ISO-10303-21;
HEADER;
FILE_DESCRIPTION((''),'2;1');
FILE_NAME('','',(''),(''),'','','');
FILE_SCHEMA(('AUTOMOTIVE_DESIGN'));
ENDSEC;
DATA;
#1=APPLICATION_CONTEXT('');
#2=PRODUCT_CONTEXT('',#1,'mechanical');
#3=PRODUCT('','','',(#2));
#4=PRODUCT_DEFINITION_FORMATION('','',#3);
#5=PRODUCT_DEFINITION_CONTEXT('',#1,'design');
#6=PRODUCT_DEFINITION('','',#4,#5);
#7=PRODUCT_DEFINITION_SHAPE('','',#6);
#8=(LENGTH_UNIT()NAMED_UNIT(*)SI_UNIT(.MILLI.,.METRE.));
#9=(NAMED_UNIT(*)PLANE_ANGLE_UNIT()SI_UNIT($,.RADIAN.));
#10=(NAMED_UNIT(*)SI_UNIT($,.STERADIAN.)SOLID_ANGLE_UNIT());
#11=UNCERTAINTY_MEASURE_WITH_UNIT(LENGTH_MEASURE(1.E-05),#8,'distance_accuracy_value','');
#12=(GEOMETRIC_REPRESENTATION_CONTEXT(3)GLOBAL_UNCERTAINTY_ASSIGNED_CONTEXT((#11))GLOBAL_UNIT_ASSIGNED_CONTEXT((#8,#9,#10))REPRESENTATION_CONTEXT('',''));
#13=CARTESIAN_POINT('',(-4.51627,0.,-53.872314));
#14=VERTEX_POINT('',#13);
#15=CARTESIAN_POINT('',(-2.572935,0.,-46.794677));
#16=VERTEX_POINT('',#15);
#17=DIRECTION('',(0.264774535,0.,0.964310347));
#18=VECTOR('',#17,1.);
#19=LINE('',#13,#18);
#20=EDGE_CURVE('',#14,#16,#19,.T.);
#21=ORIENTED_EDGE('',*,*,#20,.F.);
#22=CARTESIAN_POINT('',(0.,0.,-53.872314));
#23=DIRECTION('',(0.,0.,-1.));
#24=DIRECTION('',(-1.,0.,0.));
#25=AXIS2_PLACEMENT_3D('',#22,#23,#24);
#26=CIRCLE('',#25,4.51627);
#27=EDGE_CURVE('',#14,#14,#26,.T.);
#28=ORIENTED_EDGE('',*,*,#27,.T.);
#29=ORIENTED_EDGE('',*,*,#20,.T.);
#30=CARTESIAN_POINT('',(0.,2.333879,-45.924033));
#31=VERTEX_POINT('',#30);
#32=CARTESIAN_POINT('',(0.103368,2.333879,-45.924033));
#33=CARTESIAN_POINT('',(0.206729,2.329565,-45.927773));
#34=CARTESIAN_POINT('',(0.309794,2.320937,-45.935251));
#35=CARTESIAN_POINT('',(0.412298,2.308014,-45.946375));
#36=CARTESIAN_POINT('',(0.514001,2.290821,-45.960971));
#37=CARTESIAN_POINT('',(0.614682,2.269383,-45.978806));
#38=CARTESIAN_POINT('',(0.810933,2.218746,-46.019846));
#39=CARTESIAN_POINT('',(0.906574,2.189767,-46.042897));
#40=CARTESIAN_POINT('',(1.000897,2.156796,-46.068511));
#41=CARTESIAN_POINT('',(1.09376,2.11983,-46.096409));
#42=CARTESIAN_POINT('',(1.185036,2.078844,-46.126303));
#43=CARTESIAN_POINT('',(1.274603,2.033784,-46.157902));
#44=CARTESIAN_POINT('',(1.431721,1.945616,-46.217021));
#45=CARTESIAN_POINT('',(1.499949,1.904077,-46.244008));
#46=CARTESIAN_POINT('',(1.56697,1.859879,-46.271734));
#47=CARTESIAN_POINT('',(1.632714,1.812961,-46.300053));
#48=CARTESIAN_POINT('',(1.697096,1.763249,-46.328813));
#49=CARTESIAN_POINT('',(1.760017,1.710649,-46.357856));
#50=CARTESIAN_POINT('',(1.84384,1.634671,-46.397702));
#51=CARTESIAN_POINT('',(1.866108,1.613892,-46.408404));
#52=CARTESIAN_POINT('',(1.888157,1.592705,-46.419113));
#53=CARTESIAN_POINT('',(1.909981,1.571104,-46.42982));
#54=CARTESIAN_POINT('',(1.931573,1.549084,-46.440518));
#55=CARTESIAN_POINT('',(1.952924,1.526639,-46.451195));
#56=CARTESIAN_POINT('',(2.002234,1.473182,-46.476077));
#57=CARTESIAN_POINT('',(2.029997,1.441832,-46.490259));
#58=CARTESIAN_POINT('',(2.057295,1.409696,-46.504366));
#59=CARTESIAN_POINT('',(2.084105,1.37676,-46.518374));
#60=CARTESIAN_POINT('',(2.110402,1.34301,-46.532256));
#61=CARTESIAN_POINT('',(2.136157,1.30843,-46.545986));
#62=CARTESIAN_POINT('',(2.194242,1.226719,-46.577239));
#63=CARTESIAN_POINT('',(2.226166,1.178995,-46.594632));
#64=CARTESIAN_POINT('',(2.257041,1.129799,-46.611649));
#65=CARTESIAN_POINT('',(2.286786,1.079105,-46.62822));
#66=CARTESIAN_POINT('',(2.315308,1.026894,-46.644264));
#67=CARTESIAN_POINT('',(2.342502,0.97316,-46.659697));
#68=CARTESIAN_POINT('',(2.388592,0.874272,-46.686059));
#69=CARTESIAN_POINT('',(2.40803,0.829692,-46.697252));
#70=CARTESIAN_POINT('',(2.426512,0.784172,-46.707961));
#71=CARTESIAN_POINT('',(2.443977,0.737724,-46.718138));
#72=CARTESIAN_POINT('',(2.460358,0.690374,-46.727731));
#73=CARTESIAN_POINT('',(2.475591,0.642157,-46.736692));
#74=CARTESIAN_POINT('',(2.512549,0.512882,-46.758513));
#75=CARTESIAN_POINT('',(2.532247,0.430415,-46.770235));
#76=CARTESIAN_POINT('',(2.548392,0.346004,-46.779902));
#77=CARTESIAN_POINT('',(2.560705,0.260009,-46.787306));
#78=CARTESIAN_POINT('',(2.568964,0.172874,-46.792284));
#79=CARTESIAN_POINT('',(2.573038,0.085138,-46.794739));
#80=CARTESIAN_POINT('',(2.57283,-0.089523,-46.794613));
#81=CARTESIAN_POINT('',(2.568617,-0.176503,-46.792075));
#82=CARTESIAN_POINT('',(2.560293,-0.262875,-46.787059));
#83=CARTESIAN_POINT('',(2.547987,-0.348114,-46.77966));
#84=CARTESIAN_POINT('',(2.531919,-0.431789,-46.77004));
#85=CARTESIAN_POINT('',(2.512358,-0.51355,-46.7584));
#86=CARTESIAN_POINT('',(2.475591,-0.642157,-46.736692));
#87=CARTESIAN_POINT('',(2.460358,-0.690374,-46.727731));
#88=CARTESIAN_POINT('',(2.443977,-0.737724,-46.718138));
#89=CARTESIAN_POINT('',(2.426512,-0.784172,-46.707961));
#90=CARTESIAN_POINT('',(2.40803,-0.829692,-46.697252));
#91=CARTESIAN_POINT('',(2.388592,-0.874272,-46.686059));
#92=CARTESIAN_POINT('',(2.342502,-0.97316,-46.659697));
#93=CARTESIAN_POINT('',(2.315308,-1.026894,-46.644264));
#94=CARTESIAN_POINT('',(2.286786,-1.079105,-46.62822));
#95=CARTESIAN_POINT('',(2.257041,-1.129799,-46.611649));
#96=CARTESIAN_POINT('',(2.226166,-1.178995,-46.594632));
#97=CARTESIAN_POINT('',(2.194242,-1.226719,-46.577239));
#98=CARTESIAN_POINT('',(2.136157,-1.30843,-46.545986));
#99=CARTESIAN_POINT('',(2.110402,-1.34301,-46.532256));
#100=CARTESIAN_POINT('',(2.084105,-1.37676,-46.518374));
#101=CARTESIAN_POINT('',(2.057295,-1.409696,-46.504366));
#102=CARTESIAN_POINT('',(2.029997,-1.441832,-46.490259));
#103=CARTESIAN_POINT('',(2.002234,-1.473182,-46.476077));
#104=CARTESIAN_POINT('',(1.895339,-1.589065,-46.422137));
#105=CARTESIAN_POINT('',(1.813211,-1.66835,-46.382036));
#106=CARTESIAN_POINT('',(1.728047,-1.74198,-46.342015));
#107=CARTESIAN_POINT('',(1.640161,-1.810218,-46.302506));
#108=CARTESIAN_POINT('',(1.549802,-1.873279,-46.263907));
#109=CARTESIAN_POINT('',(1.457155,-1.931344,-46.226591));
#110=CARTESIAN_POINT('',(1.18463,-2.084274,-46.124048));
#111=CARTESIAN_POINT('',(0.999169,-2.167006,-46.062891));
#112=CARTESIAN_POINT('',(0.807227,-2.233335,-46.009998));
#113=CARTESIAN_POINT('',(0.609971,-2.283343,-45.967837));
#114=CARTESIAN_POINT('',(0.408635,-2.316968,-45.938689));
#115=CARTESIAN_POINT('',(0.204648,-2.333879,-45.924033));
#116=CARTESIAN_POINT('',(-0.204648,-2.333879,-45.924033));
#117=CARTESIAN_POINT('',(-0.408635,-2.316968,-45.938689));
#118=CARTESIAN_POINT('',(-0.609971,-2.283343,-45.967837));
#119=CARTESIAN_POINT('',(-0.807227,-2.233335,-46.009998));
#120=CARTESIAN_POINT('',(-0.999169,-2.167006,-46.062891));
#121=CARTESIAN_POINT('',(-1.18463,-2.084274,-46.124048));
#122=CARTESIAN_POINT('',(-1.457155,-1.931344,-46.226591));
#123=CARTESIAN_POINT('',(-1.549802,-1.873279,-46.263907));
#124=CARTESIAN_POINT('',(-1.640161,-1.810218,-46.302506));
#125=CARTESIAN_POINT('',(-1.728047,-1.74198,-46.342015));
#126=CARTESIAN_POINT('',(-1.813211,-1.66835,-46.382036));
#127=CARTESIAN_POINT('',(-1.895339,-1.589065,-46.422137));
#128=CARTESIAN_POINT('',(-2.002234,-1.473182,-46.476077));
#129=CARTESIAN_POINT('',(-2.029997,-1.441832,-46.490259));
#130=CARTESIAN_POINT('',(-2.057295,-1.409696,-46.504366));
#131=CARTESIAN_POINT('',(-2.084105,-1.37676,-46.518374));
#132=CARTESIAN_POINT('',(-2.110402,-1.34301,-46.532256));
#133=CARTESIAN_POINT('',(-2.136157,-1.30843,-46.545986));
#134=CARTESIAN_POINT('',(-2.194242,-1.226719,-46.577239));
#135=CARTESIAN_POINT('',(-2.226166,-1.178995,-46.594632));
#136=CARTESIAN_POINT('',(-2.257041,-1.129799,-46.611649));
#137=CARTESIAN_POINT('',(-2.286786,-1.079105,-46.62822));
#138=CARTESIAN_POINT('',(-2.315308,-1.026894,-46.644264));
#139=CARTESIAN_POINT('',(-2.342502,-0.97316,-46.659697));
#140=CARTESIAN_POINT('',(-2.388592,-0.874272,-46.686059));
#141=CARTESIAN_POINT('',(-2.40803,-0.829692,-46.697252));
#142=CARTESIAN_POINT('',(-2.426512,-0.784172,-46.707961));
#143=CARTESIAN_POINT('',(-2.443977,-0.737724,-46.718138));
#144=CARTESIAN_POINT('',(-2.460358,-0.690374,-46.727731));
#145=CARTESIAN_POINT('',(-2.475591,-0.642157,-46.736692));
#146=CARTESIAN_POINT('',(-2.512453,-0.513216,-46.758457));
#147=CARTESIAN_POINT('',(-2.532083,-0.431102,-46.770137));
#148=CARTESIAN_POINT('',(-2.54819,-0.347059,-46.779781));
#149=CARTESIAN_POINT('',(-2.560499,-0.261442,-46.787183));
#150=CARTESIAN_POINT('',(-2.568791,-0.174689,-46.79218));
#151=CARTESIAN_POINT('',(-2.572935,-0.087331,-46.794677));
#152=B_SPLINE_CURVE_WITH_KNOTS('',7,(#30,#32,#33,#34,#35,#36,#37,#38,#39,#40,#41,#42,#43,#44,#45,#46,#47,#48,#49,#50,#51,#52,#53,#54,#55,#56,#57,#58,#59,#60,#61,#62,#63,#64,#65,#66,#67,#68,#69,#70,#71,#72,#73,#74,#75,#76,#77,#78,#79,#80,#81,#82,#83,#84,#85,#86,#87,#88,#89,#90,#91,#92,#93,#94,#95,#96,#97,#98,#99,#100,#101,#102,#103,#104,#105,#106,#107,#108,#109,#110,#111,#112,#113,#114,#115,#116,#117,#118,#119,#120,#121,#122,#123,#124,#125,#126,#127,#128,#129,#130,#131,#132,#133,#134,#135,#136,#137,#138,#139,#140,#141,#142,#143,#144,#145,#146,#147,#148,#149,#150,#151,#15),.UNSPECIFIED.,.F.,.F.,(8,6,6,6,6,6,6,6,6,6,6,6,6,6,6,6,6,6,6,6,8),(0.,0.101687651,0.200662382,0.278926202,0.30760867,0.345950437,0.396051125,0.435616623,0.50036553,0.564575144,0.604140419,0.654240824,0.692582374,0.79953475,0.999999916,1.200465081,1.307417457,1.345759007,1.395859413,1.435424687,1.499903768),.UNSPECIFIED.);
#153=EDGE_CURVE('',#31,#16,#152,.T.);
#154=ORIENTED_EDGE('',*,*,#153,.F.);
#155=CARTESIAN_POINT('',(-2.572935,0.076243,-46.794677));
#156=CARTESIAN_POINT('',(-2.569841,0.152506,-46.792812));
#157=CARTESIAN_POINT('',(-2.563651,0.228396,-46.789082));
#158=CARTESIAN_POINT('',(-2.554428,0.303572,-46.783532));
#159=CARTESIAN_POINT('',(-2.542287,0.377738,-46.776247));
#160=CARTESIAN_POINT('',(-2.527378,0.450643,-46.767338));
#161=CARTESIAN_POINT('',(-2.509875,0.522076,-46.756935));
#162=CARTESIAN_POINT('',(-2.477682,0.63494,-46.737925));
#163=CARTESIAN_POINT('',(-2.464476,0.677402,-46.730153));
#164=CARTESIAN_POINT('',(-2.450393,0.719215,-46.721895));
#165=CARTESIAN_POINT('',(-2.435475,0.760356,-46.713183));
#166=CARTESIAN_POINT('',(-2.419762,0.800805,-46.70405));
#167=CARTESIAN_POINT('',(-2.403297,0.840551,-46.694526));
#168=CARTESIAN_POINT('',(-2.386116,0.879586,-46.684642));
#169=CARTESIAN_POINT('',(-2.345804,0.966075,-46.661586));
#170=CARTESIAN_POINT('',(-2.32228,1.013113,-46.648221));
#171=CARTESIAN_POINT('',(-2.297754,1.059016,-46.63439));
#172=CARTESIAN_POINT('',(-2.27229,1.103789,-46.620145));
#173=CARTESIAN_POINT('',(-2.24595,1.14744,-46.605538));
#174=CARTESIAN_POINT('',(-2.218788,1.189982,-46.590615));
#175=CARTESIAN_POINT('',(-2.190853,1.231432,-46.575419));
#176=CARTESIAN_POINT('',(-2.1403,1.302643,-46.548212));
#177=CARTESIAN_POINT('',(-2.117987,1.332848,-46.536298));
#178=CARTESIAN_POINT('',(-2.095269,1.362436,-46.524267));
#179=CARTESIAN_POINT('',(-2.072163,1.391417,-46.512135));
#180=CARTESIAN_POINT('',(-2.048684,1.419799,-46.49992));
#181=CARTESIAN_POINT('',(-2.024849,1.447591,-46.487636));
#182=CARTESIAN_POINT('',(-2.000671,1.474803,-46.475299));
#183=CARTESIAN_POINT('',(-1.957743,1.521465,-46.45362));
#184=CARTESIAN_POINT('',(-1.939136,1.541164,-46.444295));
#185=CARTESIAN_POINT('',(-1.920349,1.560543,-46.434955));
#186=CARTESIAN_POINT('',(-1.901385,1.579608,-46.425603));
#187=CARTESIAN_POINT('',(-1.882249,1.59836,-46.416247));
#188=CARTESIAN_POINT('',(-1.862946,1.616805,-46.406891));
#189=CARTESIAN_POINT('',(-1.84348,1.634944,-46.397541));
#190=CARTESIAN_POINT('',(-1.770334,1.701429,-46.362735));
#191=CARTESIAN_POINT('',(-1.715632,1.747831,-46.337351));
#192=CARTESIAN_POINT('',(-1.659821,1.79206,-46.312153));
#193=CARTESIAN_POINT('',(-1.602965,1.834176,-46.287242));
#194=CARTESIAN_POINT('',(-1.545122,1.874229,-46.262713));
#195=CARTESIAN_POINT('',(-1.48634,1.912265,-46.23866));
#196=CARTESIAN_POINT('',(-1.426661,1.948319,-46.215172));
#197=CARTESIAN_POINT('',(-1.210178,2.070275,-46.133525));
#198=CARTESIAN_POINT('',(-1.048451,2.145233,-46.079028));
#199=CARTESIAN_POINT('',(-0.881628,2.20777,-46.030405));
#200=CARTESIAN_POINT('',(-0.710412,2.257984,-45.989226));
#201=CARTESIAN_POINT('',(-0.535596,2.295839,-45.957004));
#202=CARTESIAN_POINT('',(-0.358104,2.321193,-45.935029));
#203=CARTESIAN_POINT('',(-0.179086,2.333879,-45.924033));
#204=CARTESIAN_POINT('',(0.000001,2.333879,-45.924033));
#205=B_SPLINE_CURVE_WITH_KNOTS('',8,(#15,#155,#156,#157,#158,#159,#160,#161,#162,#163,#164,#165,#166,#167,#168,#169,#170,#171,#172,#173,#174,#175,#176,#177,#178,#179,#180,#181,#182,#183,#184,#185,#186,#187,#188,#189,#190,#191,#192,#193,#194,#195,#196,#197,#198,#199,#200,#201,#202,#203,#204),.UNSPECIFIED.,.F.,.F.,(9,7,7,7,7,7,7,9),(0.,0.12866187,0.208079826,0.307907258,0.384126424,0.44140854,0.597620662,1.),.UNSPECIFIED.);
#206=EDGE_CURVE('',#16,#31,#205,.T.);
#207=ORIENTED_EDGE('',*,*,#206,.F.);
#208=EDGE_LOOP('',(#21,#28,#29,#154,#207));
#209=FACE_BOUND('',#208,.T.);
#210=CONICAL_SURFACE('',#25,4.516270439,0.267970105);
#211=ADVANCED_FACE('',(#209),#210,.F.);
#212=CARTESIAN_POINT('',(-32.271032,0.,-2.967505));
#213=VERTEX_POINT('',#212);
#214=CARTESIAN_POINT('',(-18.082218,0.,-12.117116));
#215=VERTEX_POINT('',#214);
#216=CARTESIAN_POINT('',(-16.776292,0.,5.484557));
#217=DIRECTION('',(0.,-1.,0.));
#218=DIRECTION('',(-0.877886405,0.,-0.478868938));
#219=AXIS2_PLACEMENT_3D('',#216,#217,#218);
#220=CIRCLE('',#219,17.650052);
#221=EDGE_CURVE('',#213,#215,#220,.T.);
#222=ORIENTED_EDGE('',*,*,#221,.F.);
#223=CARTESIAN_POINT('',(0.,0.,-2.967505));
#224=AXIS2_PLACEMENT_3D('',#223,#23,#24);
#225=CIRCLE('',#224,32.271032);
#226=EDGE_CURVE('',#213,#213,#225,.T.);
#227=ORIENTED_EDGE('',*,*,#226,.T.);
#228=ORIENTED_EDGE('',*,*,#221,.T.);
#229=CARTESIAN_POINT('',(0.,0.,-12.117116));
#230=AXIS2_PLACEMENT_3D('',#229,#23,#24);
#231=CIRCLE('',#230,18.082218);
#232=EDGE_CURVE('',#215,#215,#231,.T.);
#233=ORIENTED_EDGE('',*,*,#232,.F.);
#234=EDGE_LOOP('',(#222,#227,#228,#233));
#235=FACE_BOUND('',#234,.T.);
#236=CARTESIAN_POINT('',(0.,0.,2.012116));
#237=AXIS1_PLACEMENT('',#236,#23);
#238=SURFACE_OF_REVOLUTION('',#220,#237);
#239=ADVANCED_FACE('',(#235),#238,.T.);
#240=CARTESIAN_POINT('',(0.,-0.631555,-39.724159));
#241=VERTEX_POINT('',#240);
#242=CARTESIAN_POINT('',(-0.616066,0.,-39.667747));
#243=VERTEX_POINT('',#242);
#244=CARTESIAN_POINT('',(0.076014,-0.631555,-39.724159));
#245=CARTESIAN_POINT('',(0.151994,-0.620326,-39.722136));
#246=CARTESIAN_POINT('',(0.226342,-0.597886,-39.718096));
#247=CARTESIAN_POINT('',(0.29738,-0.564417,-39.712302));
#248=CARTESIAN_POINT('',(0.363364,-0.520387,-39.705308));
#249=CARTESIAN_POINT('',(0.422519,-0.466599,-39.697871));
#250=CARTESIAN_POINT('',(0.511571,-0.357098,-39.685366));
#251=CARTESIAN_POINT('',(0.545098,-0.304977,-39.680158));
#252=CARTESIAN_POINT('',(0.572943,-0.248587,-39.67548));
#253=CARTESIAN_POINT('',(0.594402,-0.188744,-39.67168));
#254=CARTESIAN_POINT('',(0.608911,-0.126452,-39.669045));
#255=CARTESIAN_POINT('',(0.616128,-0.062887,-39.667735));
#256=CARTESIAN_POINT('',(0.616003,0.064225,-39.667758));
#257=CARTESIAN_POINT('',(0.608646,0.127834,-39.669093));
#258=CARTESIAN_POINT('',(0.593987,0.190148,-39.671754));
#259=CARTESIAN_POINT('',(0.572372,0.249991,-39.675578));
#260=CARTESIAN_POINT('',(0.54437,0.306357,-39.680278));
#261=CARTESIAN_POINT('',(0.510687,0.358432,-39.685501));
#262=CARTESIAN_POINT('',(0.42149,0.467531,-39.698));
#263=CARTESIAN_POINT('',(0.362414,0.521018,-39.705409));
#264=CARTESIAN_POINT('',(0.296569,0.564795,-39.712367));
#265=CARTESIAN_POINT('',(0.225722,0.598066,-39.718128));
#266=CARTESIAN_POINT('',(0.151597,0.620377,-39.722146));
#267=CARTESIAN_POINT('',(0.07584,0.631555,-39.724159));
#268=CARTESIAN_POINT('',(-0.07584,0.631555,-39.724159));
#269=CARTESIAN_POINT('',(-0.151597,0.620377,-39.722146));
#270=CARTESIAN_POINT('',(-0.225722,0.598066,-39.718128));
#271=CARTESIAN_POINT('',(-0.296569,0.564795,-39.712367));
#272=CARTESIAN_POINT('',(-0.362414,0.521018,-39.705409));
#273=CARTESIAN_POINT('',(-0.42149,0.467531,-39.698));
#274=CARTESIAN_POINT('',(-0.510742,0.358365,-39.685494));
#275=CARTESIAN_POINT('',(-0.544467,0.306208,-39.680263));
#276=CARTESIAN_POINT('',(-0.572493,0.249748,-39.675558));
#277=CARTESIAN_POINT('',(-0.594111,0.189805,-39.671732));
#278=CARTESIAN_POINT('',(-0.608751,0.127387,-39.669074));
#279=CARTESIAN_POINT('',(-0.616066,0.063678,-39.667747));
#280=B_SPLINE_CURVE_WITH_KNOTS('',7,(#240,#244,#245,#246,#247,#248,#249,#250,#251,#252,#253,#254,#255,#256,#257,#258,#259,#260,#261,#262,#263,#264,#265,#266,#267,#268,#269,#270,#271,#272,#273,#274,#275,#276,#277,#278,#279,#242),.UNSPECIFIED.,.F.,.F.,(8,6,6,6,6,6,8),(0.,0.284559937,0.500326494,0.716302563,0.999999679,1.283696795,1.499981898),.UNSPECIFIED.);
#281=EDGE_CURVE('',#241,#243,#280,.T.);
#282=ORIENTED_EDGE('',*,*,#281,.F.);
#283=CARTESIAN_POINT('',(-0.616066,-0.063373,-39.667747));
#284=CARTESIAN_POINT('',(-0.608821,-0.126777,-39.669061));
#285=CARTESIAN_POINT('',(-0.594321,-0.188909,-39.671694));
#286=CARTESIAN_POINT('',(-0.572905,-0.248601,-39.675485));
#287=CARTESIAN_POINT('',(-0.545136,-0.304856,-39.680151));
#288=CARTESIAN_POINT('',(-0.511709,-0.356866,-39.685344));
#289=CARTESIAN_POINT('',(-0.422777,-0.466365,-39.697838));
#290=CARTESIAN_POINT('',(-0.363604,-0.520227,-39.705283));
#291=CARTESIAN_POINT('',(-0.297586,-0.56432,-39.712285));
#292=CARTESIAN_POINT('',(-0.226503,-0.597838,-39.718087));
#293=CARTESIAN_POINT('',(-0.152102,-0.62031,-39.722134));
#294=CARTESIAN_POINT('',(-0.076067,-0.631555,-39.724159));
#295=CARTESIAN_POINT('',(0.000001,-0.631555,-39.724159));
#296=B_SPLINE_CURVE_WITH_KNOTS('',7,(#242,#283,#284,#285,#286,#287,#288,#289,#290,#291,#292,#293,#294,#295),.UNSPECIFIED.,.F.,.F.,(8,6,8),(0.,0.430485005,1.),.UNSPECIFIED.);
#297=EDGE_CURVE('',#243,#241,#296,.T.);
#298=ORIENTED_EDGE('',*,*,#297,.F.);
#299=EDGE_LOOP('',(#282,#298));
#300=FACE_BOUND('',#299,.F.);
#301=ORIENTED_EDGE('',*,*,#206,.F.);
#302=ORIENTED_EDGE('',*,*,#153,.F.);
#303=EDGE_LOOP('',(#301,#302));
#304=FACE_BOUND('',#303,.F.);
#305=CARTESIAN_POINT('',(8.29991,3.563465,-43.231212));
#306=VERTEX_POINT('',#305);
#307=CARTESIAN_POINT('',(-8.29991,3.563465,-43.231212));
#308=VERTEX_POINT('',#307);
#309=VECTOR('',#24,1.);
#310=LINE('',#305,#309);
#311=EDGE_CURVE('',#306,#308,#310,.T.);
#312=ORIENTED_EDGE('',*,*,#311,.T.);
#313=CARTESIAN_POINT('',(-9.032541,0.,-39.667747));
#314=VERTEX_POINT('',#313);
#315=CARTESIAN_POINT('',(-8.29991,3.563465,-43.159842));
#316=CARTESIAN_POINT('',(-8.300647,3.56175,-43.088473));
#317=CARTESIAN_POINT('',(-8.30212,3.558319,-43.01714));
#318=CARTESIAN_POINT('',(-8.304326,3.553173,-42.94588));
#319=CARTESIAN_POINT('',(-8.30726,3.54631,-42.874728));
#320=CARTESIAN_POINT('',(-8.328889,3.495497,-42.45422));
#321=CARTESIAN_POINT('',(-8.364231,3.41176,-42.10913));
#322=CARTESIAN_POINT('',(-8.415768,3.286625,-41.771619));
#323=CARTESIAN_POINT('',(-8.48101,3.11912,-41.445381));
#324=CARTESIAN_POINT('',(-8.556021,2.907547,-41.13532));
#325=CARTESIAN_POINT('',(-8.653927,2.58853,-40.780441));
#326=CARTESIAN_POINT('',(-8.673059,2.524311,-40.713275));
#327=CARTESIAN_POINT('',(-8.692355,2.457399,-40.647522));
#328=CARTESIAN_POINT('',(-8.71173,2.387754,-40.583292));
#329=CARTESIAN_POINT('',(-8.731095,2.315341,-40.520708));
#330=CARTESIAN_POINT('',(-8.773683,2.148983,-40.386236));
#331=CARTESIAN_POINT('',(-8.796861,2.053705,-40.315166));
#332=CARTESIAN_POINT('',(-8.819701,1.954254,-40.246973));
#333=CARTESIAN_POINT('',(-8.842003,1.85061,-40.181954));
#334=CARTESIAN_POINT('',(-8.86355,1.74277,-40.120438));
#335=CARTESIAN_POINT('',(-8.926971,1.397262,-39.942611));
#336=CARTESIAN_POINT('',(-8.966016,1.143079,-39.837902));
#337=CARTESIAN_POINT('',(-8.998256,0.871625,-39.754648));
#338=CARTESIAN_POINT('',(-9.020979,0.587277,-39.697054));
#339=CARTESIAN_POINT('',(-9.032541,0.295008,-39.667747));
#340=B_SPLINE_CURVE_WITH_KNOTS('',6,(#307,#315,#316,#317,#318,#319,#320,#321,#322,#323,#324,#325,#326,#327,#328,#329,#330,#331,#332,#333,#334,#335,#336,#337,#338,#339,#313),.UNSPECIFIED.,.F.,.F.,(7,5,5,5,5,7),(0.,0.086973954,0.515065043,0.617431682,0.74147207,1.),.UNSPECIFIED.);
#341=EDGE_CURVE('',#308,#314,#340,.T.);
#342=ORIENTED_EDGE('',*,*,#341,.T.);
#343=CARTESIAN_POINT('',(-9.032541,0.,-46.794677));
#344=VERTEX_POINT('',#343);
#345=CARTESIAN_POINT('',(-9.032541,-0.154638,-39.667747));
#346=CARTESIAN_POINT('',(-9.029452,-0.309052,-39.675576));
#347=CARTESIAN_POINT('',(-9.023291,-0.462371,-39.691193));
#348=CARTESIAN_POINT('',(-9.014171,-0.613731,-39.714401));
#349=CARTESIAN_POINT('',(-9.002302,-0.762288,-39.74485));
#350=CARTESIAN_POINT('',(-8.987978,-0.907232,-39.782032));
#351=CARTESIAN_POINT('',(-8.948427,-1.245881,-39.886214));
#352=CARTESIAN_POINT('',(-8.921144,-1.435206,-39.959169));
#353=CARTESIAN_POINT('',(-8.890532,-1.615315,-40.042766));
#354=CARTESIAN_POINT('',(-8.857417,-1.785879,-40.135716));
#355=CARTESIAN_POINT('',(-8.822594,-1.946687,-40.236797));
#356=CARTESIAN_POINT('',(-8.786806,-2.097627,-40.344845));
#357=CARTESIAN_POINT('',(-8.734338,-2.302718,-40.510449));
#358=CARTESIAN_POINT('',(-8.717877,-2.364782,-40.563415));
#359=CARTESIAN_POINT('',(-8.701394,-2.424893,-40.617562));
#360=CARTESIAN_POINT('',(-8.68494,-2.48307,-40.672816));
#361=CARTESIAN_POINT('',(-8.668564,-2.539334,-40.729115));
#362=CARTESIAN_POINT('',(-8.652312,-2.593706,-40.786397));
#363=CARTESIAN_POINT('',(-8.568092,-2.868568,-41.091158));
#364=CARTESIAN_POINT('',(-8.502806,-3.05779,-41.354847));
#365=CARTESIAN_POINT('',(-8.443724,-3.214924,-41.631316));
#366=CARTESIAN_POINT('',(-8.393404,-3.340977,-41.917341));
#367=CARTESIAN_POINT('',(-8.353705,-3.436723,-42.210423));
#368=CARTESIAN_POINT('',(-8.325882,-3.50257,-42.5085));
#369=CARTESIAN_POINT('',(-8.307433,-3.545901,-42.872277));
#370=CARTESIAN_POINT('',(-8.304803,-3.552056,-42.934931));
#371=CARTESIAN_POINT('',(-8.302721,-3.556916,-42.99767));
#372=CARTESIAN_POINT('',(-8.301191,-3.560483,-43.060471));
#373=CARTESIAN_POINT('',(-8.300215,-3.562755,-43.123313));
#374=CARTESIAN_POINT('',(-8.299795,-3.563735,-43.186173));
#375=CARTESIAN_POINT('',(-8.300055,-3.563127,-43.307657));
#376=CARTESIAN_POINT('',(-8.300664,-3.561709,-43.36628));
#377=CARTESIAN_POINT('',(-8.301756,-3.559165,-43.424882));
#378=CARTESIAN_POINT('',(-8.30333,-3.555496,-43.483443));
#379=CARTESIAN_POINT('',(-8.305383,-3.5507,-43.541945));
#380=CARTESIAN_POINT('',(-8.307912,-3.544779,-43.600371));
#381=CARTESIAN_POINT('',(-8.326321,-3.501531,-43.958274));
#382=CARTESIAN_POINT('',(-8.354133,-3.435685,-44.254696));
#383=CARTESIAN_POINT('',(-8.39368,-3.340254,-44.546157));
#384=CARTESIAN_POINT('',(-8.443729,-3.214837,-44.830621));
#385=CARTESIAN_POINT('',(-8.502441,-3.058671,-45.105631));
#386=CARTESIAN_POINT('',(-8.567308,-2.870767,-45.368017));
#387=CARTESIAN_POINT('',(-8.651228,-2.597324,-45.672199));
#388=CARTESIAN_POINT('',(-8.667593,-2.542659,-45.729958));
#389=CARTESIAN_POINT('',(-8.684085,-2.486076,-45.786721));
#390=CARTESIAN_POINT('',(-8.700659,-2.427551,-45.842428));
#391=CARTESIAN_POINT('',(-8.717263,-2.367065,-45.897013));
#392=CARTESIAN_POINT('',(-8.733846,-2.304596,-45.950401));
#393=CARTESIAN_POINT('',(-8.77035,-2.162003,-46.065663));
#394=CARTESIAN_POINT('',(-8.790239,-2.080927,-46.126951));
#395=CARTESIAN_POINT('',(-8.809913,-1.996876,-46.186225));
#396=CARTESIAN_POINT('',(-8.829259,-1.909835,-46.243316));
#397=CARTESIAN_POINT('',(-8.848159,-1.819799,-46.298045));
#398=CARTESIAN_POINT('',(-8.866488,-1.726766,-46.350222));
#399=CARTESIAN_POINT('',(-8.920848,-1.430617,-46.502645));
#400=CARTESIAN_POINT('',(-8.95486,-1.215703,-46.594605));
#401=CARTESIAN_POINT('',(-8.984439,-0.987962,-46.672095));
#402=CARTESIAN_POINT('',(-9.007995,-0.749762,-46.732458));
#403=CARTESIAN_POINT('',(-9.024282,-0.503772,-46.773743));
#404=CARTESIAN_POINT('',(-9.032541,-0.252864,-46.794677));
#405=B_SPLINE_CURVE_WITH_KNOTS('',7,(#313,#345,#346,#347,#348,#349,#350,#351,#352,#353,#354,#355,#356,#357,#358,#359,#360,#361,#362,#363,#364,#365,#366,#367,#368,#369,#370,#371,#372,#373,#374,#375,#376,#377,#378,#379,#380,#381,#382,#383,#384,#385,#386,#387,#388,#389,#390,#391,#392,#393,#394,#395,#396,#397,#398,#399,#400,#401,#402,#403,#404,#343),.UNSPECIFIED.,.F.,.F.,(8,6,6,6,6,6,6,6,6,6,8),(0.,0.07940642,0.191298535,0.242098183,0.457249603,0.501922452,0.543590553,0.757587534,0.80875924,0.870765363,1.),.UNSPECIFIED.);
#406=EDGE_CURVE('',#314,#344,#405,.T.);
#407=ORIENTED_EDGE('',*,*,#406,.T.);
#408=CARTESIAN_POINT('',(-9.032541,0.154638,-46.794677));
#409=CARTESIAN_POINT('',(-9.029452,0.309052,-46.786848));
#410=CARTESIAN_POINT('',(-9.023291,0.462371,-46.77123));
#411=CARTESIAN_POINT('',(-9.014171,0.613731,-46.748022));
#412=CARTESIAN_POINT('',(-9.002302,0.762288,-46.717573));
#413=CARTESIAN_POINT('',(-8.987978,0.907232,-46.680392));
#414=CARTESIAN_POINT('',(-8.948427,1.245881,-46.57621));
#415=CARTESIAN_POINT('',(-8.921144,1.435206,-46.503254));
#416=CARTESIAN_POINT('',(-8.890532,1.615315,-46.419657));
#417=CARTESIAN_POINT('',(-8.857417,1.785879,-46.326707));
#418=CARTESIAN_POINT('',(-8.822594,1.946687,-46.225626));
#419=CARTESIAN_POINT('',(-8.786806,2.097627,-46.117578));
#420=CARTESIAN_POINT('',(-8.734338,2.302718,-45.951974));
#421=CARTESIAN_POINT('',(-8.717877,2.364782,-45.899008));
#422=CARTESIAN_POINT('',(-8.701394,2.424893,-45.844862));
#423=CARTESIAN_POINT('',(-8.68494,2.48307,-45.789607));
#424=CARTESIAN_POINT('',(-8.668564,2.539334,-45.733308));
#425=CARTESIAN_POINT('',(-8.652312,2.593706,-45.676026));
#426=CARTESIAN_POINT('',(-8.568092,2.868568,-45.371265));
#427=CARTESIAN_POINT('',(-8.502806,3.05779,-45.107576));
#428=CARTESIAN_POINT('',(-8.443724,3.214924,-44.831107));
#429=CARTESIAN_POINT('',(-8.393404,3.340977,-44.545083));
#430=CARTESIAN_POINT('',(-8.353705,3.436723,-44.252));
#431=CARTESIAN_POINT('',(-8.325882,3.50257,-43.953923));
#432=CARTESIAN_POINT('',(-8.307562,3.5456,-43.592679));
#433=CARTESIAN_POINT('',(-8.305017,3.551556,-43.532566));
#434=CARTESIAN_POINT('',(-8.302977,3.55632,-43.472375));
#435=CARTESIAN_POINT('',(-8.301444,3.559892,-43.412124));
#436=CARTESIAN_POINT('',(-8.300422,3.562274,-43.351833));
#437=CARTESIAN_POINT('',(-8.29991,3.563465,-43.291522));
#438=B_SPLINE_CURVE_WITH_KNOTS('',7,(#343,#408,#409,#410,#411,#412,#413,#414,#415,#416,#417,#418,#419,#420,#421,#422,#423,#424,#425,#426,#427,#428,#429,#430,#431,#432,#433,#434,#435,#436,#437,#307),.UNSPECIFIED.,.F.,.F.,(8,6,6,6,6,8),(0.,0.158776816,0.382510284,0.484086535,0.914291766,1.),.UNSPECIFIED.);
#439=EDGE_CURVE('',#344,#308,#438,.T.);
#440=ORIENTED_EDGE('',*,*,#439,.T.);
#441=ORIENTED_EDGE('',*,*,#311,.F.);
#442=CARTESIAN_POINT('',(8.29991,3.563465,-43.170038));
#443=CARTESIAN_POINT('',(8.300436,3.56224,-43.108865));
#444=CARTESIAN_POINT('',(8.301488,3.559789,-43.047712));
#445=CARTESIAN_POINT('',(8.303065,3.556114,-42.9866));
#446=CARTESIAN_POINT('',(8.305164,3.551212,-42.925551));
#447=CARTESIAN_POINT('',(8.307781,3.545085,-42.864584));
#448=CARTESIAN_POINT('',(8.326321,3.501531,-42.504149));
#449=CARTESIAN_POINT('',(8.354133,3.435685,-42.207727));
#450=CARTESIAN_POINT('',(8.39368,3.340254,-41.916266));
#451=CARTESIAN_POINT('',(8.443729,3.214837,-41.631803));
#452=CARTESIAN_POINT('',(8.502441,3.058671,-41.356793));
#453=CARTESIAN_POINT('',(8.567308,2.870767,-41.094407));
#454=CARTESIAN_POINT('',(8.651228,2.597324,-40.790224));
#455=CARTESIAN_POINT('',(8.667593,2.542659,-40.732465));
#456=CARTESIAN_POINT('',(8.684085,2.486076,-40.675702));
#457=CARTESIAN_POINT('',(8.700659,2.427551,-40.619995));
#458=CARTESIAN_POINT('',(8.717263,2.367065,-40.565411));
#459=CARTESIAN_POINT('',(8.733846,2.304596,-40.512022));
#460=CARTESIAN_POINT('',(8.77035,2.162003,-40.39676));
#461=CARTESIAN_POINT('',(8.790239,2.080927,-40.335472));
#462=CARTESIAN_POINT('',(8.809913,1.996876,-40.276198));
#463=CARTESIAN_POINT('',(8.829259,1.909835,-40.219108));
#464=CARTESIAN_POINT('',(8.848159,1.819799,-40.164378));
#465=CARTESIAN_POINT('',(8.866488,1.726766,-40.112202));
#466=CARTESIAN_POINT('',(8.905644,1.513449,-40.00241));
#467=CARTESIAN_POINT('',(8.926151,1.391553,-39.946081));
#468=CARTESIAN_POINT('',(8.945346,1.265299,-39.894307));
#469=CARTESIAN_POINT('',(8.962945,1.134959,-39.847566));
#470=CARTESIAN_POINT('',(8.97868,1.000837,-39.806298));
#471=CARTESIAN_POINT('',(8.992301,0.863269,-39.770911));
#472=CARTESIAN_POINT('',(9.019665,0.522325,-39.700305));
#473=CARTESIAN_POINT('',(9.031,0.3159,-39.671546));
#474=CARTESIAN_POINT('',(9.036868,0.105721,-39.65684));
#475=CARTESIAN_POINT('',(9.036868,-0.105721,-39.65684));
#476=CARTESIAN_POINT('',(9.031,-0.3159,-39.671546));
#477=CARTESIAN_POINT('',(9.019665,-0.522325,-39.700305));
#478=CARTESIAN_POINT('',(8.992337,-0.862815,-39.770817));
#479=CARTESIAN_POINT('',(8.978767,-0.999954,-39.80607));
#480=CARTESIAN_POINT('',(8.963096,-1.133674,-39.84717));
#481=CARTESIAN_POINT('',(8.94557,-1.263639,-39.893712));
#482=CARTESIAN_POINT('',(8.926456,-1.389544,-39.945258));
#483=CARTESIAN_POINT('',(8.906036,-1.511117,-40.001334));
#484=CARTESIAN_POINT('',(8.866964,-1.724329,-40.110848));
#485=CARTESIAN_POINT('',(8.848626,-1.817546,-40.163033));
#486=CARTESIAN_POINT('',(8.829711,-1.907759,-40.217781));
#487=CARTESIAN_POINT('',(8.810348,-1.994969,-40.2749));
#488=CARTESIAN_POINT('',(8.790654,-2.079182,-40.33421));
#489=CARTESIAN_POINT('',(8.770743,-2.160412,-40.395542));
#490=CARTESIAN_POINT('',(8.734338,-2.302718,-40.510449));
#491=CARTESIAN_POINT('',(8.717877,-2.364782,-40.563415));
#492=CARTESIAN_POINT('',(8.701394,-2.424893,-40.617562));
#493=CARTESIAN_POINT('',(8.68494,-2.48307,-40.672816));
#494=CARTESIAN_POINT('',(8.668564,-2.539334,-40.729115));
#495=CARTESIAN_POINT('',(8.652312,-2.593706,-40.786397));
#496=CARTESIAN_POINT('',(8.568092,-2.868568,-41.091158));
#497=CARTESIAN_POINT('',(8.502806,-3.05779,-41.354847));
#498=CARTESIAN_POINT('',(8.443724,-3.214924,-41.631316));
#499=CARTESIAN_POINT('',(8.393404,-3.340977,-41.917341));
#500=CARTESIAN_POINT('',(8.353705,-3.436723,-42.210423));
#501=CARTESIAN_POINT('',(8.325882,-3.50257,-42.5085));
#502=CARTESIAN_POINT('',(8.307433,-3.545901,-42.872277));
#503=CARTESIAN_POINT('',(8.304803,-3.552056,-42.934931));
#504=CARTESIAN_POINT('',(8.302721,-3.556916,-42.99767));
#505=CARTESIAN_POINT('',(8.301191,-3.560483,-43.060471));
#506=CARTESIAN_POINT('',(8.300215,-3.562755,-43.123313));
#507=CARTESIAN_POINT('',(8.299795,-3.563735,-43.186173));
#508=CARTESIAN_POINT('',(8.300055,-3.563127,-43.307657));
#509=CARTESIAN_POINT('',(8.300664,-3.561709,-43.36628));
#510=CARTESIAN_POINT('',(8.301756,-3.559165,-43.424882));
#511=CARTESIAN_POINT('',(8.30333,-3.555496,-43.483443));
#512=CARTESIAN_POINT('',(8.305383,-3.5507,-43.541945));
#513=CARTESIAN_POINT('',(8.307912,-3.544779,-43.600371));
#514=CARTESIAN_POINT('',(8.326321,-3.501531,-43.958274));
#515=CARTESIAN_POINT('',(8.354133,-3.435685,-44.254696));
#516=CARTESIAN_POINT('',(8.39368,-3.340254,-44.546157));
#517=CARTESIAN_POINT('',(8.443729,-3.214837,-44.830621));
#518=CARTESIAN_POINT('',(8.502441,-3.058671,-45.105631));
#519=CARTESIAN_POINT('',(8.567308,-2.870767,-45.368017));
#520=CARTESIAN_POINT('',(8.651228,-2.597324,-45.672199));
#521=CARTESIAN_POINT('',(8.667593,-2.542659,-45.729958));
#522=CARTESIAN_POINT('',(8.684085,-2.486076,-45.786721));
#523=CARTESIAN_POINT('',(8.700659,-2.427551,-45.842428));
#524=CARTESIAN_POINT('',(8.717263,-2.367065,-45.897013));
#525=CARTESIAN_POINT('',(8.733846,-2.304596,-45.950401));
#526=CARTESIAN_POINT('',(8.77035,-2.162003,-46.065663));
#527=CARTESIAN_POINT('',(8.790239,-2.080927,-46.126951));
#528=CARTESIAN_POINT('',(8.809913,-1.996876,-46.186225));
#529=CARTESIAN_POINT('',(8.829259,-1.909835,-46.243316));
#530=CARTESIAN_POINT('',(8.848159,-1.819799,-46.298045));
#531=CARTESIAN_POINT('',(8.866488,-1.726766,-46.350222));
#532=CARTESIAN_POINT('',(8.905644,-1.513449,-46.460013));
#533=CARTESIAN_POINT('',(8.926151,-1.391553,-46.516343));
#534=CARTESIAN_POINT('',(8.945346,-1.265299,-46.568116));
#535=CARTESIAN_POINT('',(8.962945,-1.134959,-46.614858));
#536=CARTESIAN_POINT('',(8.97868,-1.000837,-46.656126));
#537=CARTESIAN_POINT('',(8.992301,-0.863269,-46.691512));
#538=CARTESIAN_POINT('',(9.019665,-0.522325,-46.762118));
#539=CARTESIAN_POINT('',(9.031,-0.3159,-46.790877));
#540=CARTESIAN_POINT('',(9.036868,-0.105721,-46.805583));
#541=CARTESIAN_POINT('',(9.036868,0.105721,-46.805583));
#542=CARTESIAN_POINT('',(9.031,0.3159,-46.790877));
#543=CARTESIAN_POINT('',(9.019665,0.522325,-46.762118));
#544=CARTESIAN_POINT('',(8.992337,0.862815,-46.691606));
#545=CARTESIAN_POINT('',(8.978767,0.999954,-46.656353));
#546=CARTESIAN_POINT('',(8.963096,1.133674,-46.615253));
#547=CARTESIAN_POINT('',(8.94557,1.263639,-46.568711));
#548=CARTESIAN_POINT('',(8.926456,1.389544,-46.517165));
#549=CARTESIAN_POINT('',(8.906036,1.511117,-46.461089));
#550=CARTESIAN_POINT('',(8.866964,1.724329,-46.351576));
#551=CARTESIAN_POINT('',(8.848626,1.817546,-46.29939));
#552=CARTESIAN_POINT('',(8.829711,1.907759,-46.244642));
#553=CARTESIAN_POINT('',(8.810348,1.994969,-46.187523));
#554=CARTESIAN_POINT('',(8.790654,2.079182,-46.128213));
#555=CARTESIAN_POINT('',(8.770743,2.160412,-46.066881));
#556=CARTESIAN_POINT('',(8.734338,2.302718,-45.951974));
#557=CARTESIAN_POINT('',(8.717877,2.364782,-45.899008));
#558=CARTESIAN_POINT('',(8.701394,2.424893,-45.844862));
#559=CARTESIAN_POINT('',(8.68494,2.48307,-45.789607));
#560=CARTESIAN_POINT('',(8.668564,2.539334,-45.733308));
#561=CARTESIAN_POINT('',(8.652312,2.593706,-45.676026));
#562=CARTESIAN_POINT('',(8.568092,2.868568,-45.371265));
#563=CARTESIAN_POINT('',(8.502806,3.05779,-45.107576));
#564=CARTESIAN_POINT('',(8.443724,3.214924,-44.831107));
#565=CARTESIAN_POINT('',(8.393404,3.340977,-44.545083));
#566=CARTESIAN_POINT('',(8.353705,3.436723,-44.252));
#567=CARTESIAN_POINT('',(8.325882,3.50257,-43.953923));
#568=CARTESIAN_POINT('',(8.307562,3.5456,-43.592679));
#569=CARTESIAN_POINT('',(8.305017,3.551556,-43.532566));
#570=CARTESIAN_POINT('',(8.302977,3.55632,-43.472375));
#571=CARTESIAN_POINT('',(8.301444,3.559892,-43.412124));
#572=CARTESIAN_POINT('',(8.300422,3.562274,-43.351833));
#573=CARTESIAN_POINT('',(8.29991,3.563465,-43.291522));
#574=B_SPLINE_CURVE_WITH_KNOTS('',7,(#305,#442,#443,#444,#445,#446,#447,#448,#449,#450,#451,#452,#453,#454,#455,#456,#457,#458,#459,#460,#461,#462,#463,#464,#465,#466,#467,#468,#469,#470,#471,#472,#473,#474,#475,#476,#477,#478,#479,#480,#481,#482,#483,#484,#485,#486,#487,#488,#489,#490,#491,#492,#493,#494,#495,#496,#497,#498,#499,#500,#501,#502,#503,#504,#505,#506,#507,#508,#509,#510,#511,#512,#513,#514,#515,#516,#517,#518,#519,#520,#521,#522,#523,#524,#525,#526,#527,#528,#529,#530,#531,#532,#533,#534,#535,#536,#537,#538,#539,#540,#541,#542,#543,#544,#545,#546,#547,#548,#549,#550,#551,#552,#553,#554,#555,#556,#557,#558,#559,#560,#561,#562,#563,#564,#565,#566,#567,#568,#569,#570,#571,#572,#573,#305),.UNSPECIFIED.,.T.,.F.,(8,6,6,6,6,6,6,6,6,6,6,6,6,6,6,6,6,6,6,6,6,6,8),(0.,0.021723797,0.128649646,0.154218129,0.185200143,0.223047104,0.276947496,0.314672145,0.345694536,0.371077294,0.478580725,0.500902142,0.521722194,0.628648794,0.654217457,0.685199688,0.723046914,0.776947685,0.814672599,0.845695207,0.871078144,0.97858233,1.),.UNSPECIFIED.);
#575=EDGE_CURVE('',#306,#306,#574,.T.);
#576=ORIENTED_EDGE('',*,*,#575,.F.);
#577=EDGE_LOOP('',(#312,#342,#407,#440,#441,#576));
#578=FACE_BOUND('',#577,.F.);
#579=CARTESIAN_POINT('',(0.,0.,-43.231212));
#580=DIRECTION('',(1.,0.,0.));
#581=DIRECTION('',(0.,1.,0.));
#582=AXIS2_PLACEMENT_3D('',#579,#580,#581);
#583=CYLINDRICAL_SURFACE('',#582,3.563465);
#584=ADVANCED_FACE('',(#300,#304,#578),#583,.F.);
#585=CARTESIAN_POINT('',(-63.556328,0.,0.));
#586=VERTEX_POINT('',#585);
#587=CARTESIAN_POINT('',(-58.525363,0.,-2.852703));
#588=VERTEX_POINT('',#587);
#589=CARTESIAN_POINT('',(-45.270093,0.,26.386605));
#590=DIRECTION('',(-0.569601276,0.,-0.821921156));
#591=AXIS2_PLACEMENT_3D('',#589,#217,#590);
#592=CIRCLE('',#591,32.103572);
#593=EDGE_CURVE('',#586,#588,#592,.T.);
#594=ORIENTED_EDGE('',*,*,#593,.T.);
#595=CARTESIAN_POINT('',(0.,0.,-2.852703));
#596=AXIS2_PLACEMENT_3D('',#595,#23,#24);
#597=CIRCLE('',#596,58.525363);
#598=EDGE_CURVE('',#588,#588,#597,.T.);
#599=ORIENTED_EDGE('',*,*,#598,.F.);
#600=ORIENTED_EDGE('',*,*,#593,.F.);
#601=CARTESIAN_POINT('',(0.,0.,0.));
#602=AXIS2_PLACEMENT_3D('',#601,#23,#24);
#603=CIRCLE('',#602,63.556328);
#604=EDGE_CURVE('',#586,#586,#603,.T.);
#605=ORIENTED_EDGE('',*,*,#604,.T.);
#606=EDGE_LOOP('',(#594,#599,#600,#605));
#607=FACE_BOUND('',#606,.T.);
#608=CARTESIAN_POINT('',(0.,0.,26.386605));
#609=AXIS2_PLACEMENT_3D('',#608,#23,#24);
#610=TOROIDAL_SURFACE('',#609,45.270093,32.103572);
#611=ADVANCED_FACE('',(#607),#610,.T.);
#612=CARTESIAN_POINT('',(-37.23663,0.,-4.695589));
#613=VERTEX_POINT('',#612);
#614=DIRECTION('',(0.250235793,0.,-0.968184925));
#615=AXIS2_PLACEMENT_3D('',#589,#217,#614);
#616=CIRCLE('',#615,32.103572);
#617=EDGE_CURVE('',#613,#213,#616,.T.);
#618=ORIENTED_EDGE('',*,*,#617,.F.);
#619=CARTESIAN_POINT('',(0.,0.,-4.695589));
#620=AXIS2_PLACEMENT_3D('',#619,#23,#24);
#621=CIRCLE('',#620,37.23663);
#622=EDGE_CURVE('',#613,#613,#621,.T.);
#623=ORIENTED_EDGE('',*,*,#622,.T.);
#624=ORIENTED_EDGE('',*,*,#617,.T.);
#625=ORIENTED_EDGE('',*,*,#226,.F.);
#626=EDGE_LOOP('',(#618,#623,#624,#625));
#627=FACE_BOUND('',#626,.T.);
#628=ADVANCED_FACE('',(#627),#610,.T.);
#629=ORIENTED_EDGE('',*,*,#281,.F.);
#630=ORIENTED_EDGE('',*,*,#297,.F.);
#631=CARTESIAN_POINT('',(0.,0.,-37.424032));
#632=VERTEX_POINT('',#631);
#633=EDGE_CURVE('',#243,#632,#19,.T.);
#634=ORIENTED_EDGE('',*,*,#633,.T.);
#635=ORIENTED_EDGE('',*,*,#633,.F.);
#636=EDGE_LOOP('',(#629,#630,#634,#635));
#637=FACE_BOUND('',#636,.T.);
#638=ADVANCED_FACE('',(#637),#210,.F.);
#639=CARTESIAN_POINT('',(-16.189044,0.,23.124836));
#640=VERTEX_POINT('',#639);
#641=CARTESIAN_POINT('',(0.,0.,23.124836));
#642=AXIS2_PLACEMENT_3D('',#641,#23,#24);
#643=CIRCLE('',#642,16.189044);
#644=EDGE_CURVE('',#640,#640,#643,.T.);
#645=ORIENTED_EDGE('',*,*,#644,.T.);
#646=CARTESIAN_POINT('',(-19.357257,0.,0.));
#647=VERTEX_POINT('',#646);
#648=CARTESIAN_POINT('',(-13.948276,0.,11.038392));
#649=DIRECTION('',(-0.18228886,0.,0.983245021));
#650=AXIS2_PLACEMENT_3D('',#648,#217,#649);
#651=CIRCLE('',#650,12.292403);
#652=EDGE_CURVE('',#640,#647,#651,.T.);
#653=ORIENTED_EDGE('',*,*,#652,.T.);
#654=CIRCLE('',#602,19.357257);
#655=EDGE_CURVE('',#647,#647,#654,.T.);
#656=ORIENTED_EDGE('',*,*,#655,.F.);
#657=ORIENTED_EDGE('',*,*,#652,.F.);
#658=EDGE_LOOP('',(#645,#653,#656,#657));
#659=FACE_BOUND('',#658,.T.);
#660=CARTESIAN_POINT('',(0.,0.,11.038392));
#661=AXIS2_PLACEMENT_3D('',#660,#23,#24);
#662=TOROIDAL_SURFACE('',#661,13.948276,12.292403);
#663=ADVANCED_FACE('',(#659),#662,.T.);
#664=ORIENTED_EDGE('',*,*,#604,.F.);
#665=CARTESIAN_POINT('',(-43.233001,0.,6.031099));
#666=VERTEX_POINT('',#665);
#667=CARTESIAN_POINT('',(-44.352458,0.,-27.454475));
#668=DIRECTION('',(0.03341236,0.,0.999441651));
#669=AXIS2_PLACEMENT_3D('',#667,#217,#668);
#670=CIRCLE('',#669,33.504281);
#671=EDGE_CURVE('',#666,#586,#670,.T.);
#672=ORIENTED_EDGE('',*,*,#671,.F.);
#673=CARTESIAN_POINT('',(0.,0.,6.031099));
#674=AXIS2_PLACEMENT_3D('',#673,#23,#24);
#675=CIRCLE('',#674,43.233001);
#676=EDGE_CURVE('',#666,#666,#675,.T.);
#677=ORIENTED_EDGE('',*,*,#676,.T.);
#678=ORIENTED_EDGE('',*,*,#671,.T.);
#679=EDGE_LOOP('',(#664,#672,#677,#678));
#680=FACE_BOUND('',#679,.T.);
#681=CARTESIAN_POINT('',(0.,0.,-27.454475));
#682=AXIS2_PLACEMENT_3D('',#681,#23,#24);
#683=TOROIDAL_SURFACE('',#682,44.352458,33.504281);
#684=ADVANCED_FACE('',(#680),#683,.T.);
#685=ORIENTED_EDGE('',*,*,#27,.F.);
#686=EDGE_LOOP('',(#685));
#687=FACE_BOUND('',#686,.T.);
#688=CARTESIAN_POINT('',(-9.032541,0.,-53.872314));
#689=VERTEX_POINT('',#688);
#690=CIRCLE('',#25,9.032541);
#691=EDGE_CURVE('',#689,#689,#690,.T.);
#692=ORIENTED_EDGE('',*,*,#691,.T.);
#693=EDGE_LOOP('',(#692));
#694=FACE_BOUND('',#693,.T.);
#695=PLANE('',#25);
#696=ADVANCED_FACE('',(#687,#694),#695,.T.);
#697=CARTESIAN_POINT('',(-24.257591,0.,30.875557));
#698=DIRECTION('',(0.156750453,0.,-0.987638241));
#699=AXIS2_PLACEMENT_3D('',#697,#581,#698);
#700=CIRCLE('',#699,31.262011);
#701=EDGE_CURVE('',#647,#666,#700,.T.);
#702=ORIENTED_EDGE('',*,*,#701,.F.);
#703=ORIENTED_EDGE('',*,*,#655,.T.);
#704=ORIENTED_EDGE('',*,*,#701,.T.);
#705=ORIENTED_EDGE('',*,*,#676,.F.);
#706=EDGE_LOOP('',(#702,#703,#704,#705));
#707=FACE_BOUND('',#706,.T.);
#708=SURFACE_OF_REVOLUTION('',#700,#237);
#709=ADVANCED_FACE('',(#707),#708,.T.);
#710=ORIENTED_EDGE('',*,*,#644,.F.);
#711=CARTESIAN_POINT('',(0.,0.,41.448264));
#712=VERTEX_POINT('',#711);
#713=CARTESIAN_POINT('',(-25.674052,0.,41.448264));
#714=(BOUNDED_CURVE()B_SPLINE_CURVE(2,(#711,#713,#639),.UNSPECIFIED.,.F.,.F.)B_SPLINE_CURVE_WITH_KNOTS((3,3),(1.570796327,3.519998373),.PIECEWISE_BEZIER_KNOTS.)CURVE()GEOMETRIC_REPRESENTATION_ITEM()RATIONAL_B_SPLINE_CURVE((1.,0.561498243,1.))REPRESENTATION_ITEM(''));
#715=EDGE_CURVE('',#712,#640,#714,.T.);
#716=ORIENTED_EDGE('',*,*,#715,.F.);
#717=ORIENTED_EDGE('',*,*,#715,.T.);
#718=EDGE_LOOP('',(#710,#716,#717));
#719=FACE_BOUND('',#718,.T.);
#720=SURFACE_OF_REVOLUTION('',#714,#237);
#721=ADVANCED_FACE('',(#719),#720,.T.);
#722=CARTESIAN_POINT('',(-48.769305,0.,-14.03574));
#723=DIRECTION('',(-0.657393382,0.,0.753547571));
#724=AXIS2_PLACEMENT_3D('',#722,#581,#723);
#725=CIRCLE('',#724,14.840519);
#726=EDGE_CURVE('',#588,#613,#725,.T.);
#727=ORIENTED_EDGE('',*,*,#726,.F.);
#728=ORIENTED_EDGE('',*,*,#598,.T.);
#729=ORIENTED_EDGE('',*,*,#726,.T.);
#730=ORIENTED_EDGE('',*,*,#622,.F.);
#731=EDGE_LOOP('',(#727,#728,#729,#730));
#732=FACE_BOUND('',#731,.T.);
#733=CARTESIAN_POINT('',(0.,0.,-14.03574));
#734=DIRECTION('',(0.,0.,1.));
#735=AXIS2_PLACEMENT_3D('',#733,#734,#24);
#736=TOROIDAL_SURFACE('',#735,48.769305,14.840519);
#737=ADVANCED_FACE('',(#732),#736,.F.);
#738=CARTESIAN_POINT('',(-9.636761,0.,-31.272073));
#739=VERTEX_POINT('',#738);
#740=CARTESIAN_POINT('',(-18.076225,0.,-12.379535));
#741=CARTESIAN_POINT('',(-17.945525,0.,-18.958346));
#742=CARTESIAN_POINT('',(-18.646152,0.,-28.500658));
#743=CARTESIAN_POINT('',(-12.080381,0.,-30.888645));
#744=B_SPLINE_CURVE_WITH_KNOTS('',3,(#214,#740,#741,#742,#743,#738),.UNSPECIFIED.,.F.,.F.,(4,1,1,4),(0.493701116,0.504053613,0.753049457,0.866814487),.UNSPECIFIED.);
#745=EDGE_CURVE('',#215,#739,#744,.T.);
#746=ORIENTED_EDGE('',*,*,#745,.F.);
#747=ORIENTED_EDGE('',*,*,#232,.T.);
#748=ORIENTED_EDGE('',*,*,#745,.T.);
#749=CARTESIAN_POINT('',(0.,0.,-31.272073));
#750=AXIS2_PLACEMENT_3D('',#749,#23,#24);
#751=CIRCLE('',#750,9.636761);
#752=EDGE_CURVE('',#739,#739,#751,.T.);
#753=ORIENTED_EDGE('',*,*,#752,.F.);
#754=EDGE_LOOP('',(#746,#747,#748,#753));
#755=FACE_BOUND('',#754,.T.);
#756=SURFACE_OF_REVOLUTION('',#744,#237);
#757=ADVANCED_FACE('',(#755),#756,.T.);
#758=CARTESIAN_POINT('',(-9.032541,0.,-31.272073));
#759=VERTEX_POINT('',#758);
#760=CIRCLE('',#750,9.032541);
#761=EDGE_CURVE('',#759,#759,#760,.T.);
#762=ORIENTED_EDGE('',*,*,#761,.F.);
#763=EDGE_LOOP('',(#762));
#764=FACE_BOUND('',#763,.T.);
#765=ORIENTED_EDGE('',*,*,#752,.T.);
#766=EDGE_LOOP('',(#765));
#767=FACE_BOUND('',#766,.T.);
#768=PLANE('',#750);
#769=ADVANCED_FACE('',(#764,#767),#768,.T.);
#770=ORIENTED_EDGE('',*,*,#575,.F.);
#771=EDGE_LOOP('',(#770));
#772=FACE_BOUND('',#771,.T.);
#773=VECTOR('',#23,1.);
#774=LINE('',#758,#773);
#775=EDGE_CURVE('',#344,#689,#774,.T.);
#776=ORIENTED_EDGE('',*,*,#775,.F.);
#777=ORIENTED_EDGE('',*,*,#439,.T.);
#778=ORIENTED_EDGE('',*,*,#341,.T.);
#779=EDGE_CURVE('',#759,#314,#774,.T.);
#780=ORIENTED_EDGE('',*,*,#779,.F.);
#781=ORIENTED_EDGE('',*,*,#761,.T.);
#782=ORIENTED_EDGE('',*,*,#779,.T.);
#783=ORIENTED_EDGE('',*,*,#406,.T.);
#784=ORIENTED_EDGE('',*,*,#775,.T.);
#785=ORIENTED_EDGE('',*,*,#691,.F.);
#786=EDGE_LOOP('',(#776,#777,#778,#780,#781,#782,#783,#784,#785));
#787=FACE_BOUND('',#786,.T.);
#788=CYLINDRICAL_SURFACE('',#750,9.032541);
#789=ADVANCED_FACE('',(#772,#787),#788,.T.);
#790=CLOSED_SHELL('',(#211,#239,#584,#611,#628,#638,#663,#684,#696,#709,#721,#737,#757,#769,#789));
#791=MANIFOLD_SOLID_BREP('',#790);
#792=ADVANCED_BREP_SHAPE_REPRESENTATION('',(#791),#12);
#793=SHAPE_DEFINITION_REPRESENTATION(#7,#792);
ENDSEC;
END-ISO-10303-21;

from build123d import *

# Parameters (mm, degrees)
F2_R     = 3.5634649621
F3_DEPTH = 25.4
F4_DEPTH = 25.4


with BuildPart() as f1:
    # F0 (on Front) → F1 (revolve)
    with BuildSketch(Plane.XZ):
        with BuildLine():
            Line((0, -31.6168554127), (0, 14.6877852364))
            Line((0, 14.6877852364), (0, 41.4482640938))
            add(Edge.make_bspline(
                [(0, 41.4482640938), (-25.6740520635, 41.4482640938), (-16.1890444672, 23.12483641)],
                knots=[1.5707963268, 1.5707963268, 1.5707963268, 3.5199983734, 3.5199983734, 3.5199983734], degree=2, weights=[1, 0.5614982427, 1]))
            ThreePointArc((-16.1890444672, 23.12483641), (-26.1269124398, 12.7069231562), (-19.3572565913, 0))
            ThreePointArc((-19.3572565913, 0), (-31.9139919734, 0.5656111198), (-43.2330009959, 6.0310986683))
            ThreePointArc((-43.2330009959, 6.0310986683), (-53.884249017, 4.6653287196), (-63.5563284159, 0))
            ThreePointArc((-63.5563284159, 0), (-61.1052161076, -1.5398735842), (-58.5253632579, -2.852703153))
            ThreePointArc((-58.5253632579, -2.852703153), (-47.4894028022, 0.7494839504), (-37.2366299676, -4.6955894476))
            ThreePointArc((-37.2366299676, -4.6955894476), (-34.7183947898, -3.9333720133), (-32.2710320848, -2.9675047252))
            ThreePointArc((-32.2710320848, -2.9675047252), (-26.3415646355, -9.3488473307), (-18.0822180019, -12.1171158992))
            add(Edge.make_bspline(
                [(-18.0822180019, -12.1171158992), (-18.0762251984, -12.3795353184), (-17.9455253082, -18.958346138), (-18.6461523511, -28.5006584635), (-12.0803813525, -30.8886451777), (-9.6367610934, -31.2720729229)],
                knots=[0.4937011161, 0.4937011161, 0.4937011161, 0.4937011161, 0.5040536134, 0.7530494568, 0.866814487, 0.866814487, 0.866814487, 0.866814487], degree=3))
            Line((-9.6367610934, -31.2720729229), (-9.0325408773, -31.2720729229))
            Line((-9.0325408773, -31.2720729229), (-9.0325408773, -31.3586124199))
            add(Edge.make_bspline(
                [(-9.0325408773, -31.3586124199), (-6.3048687908, -31.7137212723), (-3.1526142589, -31.6653227611), (0, -31.6168554127)],
                knots=[0.8760752846, 0.8760752846, 0.8760752846, 0.8760752846, 1, 1, 1, 1], degree=3))
        make_face()
        with BuildLine():
            Line((0, -37.4240316451), (0, -31.6168554127))
            add(Edge.make_bspline(
                [(-9.0325408773, -31.3586124199), (-6.3048687908, -31.7137212723), (-3.1526142589, -31.6653227611), (0, -31.6168554127)],
                knots=[0.8760752846, 0.8760752846, 0.8760752846, 0.8760752846, 1, 1, 1, 1], degree=3))
            Line((-9.0325408773, -31.3586124199), (-9.0325408773, -53.8723139956))
            Line((-9.0325408773, -53.8723139956), (-4.5162704386, -53.8723139956))
            Line((-4.5162704386, -53.8723139956), (0, -37.4240316451))
        make_face()
    revolve(axis=Axis((0, 0, 2.0121162244), (0, 0, -1)))

    # F2 (on Right) → F3 (cut)
    with BuildSketch(Plane.YZ):
        with Locations((0, -43.2312116027)):
            Circle(F2_R)
    extrude(amount=-F3_DEPTH, mode=Mode.SUBTRACT)

    # F2 (on Right) → F4 (cut)
    with BuildSketch(Plane.YZ):
        with Locations((0, -43.2312116027)):
            Circle(F2_R)
    extrude(amount=F4_DEPTH, mode=Mode.SUBTRACT)


solid = f1.part
